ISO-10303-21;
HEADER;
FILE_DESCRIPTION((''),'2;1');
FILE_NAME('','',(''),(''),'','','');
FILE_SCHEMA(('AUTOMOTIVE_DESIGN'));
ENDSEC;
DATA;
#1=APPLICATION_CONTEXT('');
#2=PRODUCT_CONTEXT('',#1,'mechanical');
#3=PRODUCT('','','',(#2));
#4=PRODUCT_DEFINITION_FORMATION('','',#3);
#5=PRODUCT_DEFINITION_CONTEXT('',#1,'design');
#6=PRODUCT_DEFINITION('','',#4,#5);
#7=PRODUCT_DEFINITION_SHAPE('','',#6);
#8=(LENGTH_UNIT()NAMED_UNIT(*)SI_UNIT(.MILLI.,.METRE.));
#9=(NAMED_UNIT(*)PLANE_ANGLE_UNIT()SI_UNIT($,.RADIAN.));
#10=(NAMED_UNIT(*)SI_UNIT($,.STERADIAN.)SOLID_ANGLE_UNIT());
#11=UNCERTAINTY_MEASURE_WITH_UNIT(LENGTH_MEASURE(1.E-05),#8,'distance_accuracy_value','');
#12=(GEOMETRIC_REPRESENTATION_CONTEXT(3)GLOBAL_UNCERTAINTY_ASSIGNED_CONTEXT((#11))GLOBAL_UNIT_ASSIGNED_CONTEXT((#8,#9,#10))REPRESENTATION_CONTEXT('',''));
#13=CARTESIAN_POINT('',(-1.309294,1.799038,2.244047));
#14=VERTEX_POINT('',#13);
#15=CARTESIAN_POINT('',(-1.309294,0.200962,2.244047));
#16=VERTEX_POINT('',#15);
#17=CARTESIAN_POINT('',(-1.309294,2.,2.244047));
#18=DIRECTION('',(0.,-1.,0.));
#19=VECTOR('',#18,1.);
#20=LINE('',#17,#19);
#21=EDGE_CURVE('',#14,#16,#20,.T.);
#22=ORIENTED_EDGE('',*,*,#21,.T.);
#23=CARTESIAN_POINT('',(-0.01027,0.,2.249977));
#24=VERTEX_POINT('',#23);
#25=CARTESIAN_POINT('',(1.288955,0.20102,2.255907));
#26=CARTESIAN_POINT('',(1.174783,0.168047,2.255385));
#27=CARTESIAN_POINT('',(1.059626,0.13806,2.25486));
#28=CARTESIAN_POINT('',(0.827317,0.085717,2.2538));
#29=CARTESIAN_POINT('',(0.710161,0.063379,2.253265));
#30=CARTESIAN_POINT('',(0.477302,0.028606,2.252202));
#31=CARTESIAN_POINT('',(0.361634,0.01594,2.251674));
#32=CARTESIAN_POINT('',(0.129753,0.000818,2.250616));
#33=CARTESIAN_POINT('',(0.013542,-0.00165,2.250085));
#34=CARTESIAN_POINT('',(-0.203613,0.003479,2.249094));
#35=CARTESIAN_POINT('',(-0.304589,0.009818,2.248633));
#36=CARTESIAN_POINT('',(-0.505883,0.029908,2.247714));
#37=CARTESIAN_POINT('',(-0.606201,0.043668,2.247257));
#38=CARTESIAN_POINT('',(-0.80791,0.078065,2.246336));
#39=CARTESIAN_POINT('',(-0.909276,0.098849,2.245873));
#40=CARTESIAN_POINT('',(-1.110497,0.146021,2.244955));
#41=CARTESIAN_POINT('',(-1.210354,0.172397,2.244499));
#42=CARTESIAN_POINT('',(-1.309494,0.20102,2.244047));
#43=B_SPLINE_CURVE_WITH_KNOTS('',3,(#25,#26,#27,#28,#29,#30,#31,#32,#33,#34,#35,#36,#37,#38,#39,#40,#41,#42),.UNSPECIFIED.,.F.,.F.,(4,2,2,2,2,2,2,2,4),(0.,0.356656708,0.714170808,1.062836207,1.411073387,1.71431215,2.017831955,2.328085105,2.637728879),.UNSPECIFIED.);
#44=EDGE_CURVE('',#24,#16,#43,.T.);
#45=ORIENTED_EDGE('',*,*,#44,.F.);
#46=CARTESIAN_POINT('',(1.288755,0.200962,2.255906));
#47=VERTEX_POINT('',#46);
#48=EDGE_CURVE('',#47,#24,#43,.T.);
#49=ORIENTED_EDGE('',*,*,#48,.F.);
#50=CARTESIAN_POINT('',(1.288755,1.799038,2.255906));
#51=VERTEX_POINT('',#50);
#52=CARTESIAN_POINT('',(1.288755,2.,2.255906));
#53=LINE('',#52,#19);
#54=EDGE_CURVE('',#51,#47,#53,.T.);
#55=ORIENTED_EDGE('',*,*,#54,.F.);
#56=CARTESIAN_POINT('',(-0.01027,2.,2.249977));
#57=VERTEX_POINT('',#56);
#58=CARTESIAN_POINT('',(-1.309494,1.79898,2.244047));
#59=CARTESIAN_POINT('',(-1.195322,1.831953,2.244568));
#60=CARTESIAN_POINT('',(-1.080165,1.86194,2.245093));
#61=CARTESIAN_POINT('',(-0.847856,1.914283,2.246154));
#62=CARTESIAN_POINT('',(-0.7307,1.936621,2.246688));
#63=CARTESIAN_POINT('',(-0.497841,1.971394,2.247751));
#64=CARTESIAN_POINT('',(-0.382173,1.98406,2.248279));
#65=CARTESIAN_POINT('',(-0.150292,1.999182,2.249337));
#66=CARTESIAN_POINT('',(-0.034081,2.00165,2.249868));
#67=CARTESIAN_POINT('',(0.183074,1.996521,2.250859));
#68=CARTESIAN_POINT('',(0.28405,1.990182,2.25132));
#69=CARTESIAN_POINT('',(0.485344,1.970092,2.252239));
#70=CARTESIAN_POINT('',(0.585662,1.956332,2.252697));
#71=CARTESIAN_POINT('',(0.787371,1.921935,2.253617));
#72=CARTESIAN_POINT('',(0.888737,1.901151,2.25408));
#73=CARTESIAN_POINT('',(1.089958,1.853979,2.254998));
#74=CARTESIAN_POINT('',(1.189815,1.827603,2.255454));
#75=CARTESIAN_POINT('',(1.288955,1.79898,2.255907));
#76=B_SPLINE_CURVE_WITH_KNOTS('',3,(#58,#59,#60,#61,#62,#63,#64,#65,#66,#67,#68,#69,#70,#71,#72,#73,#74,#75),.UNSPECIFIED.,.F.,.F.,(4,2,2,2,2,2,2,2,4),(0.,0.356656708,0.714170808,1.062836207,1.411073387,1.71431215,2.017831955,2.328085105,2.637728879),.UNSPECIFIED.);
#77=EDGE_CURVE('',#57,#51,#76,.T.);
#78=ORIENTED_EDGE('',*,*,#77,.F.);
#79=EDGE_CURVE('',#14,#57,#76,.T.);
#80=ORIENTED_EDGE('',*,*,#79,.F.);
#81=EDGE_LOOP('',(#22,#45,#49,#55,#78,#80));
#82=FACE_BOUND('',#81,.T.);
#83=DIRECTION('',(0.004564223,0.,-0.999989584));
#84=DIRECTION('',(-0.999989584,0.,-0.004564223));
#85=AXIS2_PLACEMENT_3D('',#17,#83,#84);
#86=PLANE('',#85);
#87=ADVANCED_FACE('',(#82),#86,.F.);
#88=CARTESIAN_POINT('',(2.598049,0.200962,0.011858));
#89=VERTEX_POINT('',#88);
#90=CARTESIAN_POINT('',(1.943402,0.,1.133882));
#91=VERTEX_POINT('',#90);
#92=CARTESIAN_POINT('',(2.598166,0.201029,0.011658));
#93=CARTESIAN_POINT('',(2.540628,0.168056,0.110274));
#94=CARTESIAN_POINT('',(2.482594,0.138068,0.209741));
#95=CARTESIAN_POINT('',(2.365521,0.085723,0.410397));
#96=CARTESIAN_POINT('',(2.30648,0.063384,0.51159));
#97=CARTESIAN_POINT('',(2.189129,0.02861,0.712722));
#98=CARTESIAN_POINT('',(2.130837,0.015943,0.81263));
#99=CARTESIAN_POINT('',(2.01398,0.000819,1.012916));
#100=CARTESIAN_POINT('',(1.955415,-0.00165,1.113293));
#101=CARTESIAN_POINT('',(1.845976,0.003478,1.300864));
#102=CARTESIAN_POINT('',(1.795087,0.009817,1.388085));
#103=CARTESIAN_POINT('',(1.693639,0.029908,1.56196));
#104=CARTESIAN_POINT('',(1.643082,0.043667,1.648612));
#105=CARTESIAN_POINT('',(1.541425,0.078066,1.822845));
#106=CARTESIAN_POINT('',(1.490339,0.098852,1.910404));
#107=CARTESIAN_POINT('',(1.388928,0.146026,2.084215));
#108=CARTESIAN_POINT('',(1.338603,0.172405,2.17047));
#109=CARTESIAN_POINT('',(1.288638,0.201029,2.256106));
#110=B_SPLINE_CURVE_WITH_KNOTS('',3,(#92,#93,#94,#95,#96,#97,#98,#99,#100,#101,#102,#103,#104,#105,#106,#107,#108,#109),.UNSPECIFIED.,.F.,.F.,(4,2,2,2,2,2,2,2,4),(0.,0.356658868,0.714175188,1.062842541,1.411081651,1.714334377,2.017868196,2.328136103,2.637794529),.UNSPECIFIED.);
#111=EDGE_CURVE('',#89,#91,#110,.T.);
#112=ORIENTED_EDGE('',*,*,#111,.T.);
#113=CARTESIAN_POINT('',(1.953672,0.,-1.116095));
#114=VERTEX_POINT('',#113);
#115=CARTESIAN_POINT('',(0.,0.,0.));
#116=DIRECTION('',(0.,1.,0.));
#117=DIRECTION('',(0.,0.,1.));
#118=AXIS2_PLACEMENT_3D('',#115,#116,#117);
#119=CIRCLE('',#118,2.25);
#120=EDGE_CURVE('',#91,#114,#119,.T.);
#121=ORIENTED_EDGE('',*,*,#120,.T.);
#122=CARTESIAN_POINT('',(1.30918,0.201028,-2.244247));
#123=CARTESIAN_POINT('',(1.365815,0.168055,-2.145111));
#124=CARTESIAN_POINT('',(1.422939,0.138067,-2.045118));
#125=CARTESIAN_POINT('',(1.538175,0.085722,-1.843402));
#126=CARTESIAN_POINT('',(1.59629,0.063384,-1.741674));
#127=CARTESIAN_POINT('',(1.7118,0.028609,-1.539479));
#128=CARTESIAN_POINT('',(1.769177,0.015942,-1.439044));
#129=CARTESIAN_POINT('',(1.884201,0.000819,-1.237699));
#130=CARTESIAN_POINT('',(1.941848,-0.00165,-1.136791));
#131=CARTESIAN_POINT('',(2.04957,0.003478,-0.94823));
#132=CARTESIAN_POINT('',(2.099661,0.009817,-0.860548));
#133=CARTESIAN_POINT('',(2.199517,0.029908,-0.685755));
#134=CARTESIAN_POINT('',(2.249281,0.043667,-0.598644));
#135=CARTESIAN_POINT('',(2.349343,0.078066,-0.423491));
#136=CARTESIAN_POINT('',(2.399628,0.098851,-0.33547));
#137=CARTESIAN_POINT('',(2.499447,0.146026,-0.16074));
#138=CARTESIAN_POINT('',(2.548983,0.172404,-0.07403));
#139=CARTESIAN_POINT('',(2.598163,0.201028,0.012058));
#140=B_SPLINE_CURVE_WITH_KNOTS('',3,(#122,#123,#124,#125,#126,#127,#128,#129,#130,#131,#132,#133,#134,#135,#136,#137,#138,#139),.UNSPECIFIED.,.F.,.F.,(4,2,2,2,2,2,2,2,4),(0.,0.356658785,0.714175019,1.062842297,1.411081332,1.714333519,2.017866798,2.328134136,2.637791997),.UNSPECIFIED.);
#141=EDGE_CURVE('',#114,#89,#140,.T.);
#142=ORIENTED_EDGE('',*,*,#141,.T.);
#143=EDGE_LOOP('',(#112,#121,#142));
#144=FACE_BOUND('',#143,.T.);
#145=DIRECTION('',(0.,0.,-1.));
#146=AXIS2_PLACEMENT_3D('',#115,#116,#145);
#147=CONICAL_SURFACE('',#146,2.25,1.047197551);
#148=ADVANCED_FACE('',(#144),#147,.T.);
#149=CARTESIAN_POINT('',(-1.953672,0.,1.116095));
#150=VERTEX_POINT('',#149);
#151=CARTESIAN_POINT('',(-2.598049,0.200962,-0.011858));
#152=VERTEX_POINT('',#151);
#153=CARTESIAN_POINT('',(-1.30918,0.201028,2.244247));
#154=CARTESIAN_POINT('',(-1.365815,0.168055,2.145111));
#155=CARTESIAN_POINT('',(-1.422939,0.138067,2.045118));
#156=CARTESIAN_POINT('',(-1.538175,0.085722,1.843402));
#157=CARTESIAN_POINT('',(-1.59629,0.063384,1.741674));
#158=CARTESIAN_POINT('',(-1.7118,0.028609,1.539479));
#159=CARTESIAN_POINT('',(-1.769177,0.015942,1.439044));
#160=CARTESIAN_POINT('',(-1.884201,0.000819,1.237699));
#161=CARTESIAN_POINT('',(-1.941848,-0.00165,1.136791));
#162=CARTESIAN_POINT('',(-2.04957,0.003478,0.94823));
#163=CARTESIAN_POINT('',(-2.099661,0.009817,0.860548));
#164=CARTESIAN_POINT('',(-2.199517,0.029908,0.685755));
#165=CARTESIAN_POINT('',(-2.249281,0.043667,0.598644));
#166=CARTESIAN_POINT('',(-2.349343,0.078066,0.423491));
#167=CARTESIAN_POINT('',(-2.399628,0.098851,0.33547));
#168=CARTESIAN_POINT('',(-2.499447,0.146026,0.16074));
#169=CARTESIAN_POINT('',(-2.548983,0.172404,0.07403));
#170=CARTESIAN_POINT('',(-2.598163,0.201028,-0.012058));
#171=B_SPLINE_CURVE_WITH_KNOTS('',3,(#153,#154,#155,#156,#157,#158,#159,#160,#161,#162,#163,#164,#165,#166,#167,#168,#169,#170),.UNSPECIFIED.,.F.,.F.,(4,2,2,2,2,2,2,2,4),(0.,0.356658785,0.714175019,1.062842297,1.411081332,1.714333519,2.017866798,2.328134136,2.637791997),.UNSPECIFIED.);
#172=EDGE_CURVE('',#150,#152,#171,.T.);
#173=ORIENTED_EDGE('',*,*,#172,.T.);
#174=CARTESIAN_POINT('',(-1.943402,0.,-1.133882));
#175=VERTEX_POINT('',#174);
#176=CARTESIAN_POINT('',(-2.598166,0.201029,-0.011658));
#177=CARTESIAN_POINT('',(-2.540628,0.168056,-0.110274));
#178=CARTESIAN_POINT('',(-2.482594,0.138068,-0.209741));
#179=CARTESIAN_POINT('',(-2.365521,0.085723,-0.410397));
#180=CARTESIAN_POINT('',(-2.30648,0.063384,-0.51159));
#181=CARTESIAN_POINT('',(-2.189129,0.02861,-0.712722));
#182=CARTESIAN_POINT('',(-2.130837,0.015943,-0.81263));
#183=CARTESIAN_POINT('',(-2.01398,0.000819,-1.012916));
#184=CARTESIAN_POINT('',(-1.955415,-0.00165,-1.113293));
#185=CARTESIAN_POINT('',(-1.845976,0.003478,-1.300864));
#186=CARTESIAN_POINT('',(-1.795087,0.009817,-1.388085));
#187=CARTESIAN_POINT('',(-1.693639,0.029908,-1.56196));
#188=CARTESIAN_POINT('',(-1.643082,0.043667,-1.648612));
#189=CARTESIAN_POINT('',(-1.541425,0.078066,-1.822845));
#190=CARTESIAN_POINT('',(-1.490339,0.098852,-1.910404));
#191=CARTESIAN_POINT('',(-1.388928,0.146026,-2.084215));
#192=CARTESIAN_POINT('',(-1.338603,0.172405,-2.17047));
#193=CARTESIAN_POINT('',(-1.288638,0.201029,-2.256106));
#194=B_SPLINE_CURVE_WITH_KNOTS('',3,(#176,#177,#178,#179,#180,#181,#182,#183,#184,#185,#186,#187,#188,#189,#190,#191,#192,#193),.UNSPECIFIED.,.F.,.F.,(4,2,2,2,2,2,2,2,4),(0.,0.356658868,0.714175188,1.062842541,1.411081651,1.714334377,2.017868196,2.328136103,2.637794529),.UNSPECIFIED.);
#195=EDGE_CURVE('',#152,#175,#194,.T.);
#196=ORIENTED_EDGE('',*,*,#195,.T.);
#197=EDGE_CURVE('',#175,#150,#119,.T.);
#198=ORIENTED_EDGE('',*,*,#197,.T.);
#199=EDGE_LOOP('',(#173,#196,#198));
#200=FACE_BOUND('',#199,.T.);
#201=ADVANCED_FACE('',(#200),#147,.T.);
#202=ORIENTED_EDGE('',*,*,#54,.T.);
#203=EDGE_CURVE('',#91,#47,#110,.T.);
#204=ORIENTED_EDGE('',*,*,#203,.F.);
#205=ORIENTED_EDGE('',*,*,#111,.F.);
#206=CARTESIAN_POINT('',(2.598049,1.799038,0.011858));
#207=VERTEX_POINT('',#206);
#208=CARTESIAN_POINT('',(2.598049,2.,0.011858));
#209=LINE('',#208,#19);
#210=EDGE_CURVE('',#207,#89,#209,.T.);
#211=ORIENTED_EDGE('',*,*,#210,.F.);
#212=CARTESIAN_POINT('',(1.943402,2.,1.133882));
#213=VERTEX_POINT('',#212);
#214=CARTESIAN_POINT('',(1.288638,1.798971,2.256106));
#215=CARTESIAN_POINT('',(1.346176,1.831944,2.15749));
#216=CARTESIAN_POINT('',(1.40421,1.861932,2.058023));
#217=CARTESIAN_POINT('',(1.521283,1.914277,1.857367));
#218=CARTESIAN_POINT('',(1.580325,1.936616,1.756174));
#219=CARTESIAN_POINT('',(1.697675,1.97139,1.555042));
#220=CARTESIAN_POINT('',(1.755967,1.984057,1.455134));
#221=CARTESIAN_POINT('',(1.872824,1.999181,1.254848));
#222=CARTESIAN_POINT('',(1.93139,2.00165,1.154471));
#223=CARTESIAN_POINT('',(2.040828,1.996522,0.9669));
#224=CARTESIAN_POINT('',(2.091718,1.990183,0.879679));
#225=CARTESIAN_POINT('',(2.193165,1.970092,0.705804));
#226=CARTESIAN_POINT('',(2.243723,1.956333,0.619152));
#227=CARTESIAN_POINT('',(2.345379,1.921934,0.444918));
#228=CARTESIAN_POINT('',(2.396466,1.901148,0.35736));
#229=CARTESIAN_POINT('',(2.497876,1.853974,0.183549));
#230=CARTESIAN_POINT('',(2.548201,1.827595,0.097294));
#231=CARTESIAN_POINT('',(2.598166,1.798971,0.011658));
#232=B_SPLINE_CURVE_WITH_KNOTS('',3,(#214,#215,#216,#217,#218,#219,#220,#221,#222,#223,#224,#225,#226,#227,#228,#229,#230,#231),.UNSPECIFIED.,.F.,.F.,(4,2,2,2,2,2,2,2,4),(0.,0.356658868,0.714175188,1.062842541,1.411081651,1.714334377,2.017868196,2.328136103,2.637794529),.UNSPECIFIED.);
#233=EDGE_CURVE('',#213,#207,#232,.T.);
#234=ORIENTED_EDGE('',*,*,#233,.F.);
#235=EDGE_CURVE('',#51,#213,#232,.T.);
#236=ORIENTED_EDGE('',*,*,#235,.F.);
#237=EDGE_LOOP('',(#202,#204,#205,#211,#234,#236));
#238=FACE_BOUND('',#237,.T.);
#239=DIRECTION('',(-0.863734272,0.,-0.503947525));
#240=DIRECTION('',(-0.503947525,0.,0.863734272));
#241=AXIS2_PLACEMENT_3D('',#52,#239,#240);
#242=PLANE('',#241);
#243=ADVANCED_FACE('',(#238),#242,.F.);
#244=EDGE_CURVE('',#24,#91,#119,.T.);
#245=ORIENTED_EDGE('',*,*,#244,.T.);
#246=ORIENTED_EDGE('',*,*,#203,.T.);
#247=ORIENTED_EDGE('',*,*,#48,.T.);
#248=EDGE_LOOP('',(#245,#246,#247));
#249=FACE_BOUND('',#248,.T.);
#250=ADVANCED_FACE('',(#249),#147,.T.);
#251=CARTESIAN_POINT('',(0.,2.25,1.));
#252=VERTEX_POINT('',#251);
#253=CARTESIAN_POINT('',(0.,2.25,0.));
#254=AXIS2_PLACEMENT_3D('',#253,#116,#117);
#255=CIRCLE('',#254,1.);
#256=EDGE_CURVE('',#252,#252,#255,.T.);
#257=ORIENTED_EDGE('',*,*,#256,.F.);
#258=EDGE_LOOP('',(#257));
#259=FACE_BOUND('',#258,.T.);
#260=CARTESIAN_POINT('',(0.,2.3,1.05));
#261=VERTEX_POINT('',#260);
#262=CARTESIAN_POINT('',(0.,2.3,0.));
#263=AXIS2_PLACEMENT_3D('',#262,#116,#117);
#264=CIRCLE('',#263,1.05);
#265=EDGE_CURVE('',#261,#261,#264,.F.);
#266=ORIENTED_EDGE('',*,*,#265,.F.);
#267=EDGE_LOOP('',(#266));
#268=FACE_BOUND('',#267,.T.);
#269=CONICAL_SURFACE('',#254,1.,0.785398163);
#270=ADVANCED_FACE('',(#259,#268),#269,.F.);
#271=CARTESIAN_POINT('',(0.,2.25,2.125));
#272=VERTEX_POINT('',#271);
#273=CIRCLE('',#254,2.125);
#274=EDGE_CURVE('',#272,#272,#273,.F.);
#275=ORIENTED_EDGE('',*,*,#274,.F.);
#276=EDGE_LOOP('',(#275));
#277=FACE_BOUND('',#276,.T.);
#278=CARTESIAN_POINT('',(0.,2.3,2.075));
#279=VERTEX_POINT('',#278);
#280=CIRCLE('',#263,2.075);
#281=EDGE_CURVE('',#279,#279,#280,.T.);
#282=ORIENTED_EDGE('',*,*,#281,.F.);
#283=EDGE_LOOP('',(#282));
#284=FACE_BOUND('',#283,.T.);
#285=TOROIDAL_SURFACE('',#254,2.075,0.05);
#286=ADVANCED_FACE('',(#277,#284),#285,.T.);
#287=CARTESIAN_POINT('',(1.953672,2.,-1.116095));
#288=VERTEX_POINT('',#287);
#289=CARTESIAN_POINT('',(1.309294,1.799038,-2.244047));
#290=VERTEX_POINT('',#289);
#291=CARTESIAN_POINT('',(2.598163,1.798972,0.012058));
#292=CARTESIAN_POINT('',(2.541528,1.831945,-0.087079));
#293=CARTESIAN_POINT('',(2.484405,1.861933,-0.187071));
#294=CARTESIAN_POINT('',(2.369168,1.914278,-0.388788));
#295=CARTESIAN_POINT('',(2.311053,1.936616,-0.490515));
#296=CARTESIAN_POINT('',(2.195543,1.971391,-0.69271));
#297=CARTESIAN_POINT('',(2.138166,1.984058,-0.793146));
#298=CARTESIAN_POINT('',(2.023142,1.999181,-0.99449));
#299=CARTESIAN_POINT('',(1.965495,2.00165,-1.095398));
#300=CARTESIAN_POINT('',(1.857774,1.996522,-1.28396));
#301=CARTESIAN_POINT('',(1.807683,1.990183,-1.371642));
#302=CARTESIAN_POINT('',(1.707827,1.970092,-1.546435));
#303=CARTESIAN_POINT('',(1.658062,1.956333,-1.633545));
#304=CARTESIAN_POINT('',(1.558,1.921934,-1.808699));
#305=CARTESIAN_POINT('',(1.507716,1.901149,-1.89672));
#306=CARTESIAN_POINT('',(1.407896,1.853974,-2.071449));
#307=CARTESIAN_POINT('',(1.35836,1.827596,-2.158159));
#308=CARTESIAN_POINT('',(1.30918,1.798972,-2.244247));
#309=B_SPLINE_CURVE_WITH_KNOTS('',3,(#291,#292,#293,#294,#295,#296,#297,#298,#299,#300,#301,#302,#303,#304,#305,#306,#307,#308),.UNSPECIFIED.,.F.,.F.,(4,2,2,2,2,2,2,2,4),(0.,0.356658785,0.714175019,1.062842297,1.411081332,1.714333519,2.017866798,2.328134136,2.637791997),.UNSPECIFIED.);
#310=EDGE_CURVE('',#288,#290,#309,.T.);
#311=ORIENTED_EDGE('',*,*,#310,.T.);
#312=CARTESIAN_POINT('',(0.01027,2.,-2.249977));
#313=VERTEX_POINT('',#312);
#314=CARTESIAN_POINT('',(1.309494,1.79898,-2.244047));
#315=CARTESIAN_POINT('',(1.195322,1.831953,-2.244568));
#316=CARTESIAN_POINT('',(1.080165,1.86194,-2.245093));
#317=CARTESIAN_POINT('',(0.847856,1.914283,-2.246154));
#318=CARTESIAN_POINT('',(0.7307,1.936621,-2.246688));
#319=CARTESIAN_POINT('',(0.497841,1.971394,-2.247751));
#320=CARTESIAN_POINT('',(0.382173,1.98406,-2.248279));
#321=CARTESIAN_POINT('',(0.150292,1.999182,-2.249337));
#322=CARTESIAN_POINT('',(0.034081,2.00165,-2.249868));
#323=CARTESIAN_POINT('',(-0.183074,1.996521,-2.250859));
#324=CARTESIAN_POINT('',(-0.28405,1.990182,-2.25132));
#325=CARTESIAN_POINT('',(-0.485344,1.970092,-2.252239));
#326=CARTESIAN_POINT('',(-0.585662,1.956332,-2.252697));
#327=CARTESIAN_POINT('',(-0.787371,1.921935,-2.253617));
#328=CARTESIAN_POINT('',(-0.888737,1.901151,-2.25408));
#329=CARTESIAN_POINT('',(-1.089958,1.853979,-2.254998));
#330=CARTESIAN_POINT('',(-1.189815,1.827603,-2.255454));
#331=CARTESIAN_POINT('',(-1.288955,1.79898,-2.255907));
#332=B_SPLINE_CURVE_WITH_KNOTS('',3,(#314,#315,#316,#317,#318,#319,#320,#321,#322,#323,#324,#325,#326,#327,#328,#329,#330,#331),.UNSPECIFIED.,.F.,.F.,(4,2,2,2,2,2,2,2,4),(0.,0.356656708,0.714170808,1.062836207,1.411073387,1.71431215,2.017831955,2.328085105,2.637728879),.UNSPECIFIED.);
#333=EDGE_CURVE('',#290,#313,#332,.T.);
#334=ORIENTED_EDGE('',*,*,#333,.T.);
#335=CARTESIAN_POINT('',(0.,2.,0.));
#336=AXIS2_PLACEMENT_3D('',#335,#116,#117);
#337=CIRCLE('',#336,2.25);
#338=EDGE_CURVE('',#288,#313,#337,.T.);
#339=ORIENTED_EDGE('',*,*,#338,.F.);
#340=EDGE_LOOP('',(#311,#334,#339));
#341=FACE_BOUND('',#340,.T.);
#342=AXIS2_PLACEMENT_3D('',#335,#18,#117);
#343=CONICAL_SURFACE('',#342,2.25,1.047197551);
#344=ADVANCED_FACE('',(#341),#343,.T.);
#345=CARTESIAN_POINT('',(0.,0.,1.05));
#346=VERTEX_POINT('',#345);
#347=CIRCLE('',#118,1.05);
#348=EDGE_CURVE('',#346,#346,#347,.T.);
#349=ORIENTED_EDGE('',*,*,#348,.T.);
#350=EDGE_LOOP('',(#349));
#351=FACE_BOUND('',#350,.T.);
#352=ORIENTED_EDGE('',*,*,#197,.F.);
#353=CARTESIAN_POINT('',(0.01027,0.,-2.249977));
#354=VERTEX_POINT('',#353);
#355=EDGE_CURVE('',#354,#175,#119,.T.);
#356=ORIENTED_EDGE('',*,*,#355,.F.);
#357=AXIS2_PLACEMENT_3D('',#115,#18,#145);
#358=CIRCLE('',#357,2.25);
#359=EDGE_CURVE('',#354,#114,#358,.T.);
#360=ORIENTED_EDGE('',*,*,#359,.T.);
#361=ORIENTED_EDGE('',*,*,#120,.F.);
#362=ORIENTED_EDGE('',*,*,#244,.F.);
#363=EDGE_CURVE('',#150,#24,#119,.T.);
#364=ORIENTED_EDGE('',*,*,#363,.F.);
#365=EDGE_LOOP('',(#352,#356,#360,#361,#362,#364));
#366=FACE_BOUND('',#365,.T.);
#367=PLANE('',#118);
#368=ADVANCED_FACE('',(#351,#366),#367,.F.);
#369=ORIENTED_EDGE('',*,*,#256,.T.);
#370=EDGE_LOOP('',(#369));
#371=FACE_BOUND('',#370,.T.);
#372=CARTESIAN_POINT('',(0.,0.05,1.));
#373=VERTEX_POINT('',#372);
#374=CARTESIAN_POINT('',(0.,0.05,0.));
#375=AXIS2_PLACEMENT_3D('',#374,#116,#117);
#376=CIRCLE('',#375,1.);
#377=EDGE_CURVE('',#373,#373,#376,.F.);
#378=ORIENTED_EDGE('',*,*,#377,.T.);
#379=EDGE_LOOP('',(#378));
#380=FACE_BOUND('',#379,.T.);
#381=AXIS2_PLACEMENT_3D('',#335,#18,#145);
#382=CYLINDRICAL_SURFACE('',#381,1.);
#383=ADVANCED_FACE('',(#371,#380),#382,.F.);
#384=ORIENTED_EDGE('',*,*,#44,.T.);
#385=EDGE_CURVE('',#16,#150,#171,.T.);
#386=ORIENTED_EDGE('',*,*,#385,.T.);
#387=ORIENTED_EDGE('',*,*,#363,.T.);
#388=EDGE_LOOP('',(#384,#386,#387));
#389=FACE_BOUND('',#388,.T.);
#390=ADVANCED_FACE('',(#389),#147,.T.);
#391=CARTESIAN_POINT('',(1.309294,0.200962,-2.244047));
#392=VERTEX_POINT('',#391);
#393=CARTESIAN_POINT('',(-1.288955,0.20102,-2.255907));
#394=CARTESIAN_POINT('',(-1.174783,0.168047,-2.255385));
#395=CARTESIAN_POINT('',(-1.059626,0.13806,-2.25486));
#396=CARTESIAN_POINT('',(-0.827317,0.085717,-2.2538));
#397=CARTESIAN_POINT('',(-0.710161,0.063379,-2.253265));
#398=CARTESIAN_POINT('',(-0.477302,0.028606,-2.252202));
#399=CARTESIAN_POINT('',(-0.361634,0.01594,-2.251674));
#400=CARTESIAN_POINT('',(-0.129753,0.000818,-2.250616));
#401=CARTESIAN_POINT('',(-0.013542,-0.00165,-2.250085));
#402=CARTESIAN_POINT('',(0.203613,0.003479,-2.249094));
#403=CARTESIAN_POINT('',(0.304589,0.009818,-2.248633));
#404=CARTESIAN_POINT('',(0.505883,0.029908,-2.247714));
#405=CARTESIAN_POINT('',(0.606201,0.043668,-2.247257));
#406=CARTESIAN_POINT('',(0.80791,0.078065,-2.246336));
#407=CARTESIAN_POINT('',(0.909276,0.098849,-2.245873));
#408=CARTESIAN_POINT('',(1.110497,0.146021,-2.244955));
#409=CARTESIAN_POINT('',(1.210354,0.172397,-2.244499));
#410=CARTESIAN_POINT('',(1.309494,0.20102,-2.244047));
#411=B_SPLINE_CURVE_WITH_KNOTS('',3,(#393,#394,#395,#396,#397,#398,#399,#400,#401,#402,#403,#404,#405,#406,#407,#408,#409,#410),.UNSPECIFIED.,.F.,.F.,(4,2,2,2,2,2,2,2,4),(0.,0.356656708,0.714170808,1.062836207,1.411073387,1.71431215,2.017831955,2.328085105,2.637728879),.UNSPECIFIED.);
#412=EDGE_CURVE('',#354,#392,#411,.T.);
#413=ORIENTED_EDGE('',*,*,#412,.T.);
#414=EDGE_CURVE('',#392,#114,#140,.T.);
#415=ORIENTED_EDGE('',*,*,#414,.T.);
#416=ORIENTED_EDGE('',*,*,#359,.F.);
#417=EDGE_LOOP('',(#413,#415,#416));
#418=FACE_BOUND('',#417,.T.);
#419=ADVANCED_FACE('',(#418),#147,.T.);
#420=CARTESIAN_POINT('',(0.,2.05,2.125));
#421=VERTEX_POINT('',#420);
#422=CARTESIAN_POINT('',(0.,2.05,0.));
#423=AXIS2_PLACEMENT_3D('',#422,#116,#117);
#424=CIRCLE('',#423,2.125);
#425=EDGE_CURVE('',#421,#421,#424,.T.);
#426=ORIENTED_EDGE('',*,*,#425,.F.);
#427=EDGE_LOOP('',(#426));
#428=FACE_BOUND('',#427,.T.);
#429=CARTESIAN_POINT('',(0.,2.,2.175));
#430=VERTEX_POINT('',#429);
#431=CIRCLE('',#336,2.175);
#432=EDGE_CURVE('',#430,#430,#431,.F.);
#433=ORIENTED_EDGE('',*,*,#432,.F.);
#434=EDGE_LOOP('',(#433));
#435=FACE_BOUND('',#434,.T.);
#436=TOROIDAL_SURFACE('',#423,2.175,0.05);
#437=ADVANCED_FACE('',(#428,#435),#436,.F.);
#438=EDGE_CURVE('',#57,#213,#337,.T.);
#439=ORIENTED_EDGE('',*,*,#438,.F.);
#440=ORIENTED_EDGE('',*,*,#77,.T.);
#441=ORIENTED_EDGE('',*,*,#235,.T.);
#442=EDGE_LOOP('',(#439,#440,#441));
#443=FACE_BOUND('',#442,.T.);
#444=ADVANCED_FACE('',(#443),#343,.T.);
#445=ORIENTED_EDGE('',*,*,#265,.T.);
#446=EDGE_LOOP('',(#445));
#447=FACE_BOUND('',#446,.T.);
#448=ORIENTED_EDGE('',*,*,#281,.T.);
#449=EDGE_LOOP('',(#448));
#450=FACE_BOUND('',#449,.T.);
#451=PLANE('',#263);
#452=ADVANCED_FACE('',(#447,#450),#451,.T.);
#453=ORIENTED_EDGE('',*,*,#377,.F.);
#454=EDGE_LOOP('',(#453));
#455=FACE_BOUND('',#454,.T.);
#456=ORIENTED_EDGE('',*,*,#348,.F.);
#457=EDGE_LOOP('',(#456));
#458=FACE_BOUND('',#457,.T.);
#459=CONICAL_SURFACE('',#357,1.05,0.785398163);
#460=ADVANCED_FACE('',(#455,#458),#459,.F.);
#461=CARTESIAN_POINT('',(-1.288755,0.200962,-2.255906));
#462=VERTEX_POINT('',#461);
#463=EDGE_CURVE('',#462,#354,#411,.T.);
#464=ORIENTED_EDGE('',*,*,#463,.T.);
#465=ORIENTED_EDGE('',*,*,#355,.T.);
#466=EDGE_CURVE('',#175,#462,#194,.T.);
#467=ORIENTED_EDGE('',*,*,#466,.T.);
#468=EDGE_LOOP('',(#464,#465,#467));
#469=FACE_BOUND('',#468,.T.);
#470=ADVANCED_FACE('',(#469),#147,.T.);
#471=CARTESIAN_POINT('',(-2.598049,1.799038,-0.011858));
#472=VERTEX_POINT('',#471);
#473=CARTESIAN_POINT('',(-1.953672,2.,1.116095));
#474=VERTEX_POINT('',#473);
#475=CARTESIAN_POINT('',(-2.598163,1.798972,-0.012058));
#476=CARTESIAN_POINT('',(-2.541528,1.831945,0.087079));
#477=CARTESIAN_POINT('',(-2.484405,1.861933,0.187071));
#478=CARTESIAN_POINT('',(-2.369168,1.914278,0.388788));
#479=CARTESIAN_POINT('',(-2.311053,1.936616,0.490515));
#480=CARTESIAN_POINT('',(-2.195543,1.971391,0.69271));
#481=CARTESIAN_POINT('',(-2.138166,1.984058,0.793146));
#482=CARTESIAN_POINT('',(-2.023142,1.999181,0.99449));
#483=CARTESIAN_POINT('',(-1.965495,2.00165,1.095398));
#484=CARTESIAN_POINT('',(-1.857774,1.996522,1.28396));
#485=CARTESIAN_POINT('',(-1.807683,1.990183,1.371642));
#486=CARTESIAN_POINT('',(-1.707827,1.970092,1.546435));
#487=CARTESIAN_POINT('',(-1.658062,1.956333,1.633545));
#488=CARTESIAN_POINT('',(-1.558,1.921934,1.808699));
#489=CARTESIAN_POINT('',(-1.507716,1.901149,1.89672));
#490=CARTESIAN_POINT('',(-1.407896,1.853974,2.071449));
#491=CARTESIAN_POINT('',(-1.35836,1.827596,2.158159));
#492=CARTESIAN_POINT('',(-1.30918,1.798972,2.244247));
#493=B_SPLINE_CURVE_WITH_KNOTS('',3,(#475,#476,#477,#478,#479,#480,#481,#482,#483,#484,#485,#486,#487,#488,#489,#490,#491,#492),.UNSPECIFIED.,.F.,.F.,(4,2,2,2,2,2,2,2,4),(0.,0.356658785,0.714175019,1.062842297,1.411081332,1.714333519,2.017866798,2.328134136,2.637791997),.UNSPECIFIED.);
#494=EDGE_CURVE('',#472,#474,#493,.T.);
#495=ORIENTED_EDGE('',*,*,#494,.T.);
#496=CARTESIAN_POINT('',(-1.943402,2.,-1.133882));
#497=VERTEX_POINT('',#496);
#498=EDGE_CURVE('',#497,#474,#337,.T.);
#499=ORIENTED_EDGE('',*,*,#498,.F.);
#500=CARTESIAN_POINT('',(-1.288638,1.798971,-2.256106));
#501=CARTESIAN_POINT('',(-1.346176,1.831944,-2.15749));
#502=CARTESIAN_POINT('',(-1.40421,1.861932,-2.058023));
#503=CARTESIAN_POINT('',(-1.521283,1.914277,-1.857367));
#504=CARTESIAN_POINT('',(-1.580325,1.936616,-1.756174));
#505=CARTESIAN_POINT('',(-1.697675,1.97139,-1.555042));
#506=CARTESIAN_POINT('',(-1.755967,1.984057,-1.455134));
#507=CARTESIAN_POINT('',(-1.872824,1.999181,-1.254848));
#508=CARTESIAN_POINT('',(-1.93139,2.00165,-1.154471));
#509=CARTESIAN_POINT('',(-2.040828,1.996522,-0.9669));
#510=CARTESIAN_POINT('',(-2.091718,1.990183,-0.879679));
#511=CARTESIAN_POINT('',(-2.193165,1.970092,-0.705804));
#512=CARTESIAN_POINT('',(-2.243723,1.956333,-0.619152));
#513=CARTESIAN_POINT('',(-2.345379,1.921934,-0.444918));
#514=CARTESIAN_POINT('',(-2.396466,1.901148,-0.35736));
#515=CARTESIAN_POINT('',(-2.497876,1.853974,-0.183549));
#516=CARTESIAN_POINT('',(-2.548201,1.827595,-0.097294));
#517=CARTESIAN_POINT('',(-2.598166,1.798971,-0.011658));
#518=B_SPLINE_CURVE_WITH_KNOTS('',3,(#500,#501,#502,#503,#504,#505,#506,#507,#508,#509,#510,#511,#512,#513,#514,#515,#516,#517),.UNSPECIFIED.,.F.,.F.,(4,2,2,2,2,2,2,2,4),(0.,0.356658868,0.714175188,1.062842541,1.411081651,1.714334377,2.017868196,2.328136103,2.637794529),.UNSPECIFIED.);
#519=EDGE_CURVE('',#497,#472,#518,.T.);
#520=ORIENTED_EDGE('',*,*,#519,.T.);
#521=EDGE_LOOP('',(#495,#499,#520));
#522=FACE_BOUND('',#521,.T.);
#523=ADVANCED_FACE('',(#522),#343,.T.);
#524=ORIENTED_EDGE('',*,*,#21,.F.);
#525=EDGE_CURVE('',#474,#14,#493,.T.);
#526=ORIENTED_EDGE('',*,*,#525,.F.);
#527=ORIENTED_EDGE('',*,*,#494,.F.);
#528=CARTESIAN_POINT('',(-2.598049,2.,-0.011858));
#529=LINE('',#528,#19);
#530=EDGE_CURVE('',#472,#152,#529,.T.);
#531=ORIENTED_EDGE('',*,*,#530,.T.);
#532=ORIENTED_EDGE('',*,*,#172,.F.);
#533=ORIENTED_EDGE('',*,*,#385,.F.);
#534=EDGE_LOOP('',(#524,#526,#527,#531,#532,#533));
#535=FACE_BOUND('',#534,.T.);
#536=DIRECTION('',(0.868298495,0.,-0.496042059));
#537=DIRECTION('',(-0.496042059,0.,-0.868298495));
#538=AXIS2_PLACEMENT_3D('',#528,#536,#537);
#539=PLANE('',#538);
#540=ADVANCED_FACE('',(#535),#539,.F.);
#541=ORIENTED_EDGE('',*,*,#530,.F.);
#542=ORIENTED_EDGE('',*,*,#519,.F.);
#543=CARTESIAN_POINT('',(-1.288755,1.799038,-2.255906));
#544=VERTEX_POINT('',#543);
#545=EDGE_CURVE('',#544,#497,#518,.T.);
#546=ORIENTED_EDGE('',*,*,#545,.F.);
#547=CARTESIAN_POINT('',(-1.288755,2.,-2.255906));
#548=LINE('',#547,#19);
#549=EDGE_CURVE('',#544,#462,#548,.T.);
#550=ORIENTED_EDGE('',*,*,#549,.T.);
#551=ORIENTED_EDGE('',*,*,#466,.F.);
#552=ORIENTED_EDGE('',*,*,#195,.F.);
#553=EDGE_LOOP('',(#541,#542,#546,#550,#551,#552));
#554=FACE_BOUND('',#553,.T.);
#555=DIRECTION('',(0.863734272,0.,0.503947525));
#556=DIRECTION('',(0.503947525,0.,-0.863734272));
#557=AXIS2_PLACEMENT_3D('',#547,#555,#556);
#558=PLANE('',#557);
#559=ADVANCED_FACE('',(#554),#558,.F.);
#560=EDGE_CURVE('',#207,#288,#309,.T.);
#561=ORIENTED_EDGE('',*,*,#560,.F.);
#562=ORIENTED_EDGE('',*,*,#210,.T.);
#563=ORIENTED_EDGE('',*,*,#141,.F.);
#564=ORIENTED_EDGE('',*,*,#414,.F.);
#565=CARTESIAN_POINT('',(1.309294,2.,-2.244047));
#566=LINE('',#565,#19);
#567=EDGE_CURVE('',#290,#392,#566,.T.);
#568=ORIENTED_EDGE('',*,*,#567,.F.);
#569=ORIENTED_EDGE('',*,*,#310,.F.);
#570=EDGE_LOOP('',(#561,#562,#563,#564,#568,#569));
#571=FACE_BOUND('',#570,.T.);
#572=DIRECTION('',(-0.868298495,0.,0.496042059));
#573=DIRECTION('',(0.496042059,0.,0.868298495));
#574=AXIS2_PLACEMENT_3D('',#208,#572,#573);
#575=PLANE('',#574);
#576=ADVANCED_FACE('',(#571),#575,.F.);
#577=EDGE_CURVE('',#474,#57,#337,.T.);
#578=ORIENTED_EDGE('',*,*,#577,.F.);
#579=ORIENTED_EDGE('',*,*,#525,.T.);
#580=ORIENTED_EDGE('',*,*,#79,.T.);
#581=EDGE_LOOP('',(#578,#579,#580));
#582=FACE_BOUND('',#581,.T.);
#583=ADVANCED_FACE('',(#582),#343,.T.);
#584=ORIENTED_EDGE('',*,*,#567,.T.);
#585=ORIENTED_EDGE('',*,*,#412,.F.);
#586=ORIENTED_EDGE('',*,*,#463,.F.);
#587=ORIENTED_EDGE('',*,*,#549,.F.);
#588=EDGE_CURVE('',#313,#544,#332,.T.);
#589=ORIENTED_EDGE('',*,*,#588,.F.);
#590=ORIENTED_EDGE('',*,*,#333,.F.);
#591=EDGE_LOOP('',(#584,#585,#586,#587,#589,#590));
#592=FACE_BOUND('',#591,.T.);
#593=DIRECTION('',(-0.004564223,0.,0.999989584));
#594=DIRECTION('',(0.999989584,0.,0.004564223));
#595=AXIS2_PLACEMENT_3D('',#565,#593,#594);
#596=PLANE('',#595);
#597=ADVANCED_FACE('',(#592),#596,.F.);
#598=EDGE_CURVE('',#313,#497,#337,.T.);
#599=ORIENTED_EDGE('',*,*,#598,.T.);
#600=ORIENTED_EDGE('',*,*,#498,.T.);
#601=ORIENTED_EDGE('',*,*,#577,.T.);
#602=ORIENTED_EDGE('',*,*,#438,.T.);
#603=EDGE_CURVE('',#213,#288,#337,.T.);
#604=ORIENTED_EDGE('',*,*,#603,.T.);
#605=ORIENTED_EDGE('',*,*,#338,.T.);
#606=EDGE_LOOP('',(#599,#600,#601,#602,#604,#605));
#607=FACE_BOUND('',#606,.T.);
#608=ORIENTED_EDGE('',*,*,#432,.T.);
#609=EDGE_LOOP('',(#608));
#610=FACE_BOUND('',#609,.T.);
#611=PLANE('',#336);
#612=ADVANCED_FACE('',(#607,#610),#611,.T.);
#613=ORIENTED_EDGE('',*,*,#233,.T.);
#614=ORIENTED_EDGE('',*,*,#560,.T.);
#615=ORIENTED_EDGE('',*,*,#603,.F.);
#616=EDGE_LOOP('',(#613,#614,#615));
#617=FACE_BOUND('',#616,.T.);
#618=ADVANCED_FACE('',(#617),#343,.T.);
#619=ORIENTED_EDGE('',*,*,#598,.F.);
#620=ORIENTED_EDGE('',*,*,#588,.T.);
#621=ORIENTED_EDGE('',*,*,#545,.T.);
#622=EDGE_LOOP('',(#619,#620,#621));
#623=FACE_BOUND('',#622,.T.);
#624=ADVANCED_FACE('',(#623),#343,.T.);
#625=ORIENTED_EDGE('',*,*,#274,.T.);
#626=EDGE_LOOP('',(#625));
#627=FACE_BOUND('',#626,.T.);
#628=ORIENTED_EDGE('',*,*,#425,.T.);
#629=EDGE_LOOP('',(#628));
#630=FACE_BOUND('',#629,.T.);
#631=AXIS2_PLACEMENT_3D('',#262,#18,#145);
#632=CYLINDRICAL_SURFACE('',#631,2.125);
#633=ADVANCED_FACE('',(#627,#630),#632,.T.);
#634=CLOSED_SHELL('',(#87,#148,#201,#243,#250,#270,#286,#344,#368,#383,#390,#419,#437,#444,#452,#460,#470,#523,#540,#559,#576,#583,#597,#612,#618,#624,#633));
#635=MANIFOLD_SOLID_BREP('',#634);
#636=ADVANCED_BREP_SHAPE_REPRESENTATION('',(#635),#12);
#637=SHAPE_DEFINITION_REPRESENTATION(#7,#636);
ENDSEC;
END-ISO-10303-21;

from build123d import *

# Parameters (mm, degrees)
SKETCH1_R           = 1
BOSS_EXTRUDE1_DEPTH = 2
SKETCH2_OUTSIDE_W   = 12.094
SKETCH2_OUTSIDE_H   = 11.41
SKETCH2_OUTSIDE_R   = 2.25
CUT_EXTRUDE2_DEPTH  = 1
CUT_EXTRUDE2_DRAFT  = -60
SKETCH3_OUTSIDE_W   = 12.094
SKETCH3_OUTSIDE_H   = 11.41
SKETCH3_OUTSIDE_R   = 2.25
CUT_EXTRUDE3_DEPTH  = 1
CUT_EXTRUDE3_DRAFT  = -60
SKETCH4_R           = 2.125
SKETCH4_R_2         = 1
BOSS_EXTRUDE2_DEPTH = 0.3
FILLET1_R           = 0.05
CHAMFER1_SIZE       = 0.05


with BuildPart() as part:
    # Sketch1 → Boss-Extrude1 (new body)
    with BuildSketch(Plane(origin=(0, 0, 0), x_dir=(1, 0, 0), z_dir=(0, 1, 0))):
        Polygon((1.309294077, 2.244047464), (-1.288755073, 2.255905663), (-2.598049149, 0.011858199), (-1.309294077, -2.244047464), (1.288755073, -2.255905663), (2.598049149, -0.011858199), align=None)
        with Locations(Location((0, 0, 0), (0, 0, 270))):
            Circle(SKETCH1_R, mode=Mode.SUBTRACT)
    extrude(amount=BOSS_EXTRUDE1_DEPTH)


with BuildPart() as cut_extrude2_tool:
    # Sketch2 outside → Cut-Extrude2 (with draft: the straight prism first)
    with BuildSketch(Plane(origin=(0, 2, 0), x_dir=(1, 0, 0), z_dir=(0, 1, 0))):
        Rectangle(SKETCH2_OUTSIDE_W, SKETCH2_OUTSIDE_H)
        Circle(SKETCH2_OUTSIDE_R, mode=Mode.SUBTRACT)
    extrude(amount=-CUT_EXTRUDE2_DEPTH)
    # Cut-Extrude2: the draft: its side faces are tilted about the plane it starts from
    cut_extrude2_sides = [cut_extrude2_tool.faces().sort_by_distance(p)[0] for p in [
        (0, 1.5, 5.705),
        (6.047, 1.5, 0),
        (0, 1.5, -5.705),
        (-6.047, 1.5, 0),
        (-2.25, 1.5, 0),
    ]]
    draft(cut_extrude2_sides, Plane(origin=(0, 2, 0), x_dir=(1, 0, 0), z_dir=(0, 1, 0)), CUT_EXTRUDE2_DRAFT)


with BuildPart() as part_1:
    add(part.part)

    # Cut-Extrude2: cut by cut_extrude2_tool
    add(cut_extrude2_tool.part, mode=Mode.SUBTRACT)


with BuildPart() as cut_extrude3_tool:
    # Sketch3 outside → Cut-Extrude3 (with draft: the straight prism first)
    with BuildSketch(Plane.XZ):
        Rectangle(SKETCH3_OUTSIDE_W, SKETCH3_OUTSIDE_H)
        Circle(SKETCH3_OUTSIDE_R, mode=Mode.SUBTRACT)
    extrude(amount=-CUT_EXTRUDE3_DEPTH)
    # Cut-Extrude3: the draft: its side faces are tilted about the plane it starts from
    cut_extrude3_sides = [cut_extrude3_tool.faces().sort_by_distance(p)[0] for p in [
        (0, 0.5, -5.705),
        (6.047, 0.5, 0),
        (0, 0.5, 5.705),
        (-6.047, 0.5, 0),
        (-2.25, 0.5, 0),
    ]]
    draft(cut_extrude3_sides, Plane.XZ, CUT_EXTRUDE3_DRAFT)


with BuildPart() as part_2:
    add(part_1.part)

    # Cut-Extrude3: cut by cut_extrude3_tool
    add(cut_extrude3_tool.part, mode=Mode.SUBTRACT)

    # Sketch4 → Boss-Extrude2 (add)
    with BuildSketch(Plane(origin=(0, 2, 0), x_dir=(1, 0, 0), z_dir=(0, 1, 0))):
        with Locations(Location((0, 0, 0), (0, 0, 270))):
            Circle(SKETCH4_R)
        with Locations(Location((0, 0, 0), (0, 0, 270))):
            Circle(SKETCH4_R_2, mode=Mode.SUBTRACT)
    extrude(amount=BOSS_EXTRUDE2_DEPTH)

    # Fillet1
    fillet1_edges = [part_2.edges().sort_by_distance(p)[0] for p in [
        (0, 2.3, -2.125),
        (0, 2, -2.125),
    ]]
    fillet(fillet1_edges, radius=FILLET1_R)

    # Chamfer1
    chamfer1_edges = [part_2.edges().sort_by_distance(p)[0] for p in [
        (0, 2.3, -1),
        (0, 0, -1),
    ]]
    chamfer(chamfer1_edges, length=CHAMFER1_SIZE)


solid = part_2.part
